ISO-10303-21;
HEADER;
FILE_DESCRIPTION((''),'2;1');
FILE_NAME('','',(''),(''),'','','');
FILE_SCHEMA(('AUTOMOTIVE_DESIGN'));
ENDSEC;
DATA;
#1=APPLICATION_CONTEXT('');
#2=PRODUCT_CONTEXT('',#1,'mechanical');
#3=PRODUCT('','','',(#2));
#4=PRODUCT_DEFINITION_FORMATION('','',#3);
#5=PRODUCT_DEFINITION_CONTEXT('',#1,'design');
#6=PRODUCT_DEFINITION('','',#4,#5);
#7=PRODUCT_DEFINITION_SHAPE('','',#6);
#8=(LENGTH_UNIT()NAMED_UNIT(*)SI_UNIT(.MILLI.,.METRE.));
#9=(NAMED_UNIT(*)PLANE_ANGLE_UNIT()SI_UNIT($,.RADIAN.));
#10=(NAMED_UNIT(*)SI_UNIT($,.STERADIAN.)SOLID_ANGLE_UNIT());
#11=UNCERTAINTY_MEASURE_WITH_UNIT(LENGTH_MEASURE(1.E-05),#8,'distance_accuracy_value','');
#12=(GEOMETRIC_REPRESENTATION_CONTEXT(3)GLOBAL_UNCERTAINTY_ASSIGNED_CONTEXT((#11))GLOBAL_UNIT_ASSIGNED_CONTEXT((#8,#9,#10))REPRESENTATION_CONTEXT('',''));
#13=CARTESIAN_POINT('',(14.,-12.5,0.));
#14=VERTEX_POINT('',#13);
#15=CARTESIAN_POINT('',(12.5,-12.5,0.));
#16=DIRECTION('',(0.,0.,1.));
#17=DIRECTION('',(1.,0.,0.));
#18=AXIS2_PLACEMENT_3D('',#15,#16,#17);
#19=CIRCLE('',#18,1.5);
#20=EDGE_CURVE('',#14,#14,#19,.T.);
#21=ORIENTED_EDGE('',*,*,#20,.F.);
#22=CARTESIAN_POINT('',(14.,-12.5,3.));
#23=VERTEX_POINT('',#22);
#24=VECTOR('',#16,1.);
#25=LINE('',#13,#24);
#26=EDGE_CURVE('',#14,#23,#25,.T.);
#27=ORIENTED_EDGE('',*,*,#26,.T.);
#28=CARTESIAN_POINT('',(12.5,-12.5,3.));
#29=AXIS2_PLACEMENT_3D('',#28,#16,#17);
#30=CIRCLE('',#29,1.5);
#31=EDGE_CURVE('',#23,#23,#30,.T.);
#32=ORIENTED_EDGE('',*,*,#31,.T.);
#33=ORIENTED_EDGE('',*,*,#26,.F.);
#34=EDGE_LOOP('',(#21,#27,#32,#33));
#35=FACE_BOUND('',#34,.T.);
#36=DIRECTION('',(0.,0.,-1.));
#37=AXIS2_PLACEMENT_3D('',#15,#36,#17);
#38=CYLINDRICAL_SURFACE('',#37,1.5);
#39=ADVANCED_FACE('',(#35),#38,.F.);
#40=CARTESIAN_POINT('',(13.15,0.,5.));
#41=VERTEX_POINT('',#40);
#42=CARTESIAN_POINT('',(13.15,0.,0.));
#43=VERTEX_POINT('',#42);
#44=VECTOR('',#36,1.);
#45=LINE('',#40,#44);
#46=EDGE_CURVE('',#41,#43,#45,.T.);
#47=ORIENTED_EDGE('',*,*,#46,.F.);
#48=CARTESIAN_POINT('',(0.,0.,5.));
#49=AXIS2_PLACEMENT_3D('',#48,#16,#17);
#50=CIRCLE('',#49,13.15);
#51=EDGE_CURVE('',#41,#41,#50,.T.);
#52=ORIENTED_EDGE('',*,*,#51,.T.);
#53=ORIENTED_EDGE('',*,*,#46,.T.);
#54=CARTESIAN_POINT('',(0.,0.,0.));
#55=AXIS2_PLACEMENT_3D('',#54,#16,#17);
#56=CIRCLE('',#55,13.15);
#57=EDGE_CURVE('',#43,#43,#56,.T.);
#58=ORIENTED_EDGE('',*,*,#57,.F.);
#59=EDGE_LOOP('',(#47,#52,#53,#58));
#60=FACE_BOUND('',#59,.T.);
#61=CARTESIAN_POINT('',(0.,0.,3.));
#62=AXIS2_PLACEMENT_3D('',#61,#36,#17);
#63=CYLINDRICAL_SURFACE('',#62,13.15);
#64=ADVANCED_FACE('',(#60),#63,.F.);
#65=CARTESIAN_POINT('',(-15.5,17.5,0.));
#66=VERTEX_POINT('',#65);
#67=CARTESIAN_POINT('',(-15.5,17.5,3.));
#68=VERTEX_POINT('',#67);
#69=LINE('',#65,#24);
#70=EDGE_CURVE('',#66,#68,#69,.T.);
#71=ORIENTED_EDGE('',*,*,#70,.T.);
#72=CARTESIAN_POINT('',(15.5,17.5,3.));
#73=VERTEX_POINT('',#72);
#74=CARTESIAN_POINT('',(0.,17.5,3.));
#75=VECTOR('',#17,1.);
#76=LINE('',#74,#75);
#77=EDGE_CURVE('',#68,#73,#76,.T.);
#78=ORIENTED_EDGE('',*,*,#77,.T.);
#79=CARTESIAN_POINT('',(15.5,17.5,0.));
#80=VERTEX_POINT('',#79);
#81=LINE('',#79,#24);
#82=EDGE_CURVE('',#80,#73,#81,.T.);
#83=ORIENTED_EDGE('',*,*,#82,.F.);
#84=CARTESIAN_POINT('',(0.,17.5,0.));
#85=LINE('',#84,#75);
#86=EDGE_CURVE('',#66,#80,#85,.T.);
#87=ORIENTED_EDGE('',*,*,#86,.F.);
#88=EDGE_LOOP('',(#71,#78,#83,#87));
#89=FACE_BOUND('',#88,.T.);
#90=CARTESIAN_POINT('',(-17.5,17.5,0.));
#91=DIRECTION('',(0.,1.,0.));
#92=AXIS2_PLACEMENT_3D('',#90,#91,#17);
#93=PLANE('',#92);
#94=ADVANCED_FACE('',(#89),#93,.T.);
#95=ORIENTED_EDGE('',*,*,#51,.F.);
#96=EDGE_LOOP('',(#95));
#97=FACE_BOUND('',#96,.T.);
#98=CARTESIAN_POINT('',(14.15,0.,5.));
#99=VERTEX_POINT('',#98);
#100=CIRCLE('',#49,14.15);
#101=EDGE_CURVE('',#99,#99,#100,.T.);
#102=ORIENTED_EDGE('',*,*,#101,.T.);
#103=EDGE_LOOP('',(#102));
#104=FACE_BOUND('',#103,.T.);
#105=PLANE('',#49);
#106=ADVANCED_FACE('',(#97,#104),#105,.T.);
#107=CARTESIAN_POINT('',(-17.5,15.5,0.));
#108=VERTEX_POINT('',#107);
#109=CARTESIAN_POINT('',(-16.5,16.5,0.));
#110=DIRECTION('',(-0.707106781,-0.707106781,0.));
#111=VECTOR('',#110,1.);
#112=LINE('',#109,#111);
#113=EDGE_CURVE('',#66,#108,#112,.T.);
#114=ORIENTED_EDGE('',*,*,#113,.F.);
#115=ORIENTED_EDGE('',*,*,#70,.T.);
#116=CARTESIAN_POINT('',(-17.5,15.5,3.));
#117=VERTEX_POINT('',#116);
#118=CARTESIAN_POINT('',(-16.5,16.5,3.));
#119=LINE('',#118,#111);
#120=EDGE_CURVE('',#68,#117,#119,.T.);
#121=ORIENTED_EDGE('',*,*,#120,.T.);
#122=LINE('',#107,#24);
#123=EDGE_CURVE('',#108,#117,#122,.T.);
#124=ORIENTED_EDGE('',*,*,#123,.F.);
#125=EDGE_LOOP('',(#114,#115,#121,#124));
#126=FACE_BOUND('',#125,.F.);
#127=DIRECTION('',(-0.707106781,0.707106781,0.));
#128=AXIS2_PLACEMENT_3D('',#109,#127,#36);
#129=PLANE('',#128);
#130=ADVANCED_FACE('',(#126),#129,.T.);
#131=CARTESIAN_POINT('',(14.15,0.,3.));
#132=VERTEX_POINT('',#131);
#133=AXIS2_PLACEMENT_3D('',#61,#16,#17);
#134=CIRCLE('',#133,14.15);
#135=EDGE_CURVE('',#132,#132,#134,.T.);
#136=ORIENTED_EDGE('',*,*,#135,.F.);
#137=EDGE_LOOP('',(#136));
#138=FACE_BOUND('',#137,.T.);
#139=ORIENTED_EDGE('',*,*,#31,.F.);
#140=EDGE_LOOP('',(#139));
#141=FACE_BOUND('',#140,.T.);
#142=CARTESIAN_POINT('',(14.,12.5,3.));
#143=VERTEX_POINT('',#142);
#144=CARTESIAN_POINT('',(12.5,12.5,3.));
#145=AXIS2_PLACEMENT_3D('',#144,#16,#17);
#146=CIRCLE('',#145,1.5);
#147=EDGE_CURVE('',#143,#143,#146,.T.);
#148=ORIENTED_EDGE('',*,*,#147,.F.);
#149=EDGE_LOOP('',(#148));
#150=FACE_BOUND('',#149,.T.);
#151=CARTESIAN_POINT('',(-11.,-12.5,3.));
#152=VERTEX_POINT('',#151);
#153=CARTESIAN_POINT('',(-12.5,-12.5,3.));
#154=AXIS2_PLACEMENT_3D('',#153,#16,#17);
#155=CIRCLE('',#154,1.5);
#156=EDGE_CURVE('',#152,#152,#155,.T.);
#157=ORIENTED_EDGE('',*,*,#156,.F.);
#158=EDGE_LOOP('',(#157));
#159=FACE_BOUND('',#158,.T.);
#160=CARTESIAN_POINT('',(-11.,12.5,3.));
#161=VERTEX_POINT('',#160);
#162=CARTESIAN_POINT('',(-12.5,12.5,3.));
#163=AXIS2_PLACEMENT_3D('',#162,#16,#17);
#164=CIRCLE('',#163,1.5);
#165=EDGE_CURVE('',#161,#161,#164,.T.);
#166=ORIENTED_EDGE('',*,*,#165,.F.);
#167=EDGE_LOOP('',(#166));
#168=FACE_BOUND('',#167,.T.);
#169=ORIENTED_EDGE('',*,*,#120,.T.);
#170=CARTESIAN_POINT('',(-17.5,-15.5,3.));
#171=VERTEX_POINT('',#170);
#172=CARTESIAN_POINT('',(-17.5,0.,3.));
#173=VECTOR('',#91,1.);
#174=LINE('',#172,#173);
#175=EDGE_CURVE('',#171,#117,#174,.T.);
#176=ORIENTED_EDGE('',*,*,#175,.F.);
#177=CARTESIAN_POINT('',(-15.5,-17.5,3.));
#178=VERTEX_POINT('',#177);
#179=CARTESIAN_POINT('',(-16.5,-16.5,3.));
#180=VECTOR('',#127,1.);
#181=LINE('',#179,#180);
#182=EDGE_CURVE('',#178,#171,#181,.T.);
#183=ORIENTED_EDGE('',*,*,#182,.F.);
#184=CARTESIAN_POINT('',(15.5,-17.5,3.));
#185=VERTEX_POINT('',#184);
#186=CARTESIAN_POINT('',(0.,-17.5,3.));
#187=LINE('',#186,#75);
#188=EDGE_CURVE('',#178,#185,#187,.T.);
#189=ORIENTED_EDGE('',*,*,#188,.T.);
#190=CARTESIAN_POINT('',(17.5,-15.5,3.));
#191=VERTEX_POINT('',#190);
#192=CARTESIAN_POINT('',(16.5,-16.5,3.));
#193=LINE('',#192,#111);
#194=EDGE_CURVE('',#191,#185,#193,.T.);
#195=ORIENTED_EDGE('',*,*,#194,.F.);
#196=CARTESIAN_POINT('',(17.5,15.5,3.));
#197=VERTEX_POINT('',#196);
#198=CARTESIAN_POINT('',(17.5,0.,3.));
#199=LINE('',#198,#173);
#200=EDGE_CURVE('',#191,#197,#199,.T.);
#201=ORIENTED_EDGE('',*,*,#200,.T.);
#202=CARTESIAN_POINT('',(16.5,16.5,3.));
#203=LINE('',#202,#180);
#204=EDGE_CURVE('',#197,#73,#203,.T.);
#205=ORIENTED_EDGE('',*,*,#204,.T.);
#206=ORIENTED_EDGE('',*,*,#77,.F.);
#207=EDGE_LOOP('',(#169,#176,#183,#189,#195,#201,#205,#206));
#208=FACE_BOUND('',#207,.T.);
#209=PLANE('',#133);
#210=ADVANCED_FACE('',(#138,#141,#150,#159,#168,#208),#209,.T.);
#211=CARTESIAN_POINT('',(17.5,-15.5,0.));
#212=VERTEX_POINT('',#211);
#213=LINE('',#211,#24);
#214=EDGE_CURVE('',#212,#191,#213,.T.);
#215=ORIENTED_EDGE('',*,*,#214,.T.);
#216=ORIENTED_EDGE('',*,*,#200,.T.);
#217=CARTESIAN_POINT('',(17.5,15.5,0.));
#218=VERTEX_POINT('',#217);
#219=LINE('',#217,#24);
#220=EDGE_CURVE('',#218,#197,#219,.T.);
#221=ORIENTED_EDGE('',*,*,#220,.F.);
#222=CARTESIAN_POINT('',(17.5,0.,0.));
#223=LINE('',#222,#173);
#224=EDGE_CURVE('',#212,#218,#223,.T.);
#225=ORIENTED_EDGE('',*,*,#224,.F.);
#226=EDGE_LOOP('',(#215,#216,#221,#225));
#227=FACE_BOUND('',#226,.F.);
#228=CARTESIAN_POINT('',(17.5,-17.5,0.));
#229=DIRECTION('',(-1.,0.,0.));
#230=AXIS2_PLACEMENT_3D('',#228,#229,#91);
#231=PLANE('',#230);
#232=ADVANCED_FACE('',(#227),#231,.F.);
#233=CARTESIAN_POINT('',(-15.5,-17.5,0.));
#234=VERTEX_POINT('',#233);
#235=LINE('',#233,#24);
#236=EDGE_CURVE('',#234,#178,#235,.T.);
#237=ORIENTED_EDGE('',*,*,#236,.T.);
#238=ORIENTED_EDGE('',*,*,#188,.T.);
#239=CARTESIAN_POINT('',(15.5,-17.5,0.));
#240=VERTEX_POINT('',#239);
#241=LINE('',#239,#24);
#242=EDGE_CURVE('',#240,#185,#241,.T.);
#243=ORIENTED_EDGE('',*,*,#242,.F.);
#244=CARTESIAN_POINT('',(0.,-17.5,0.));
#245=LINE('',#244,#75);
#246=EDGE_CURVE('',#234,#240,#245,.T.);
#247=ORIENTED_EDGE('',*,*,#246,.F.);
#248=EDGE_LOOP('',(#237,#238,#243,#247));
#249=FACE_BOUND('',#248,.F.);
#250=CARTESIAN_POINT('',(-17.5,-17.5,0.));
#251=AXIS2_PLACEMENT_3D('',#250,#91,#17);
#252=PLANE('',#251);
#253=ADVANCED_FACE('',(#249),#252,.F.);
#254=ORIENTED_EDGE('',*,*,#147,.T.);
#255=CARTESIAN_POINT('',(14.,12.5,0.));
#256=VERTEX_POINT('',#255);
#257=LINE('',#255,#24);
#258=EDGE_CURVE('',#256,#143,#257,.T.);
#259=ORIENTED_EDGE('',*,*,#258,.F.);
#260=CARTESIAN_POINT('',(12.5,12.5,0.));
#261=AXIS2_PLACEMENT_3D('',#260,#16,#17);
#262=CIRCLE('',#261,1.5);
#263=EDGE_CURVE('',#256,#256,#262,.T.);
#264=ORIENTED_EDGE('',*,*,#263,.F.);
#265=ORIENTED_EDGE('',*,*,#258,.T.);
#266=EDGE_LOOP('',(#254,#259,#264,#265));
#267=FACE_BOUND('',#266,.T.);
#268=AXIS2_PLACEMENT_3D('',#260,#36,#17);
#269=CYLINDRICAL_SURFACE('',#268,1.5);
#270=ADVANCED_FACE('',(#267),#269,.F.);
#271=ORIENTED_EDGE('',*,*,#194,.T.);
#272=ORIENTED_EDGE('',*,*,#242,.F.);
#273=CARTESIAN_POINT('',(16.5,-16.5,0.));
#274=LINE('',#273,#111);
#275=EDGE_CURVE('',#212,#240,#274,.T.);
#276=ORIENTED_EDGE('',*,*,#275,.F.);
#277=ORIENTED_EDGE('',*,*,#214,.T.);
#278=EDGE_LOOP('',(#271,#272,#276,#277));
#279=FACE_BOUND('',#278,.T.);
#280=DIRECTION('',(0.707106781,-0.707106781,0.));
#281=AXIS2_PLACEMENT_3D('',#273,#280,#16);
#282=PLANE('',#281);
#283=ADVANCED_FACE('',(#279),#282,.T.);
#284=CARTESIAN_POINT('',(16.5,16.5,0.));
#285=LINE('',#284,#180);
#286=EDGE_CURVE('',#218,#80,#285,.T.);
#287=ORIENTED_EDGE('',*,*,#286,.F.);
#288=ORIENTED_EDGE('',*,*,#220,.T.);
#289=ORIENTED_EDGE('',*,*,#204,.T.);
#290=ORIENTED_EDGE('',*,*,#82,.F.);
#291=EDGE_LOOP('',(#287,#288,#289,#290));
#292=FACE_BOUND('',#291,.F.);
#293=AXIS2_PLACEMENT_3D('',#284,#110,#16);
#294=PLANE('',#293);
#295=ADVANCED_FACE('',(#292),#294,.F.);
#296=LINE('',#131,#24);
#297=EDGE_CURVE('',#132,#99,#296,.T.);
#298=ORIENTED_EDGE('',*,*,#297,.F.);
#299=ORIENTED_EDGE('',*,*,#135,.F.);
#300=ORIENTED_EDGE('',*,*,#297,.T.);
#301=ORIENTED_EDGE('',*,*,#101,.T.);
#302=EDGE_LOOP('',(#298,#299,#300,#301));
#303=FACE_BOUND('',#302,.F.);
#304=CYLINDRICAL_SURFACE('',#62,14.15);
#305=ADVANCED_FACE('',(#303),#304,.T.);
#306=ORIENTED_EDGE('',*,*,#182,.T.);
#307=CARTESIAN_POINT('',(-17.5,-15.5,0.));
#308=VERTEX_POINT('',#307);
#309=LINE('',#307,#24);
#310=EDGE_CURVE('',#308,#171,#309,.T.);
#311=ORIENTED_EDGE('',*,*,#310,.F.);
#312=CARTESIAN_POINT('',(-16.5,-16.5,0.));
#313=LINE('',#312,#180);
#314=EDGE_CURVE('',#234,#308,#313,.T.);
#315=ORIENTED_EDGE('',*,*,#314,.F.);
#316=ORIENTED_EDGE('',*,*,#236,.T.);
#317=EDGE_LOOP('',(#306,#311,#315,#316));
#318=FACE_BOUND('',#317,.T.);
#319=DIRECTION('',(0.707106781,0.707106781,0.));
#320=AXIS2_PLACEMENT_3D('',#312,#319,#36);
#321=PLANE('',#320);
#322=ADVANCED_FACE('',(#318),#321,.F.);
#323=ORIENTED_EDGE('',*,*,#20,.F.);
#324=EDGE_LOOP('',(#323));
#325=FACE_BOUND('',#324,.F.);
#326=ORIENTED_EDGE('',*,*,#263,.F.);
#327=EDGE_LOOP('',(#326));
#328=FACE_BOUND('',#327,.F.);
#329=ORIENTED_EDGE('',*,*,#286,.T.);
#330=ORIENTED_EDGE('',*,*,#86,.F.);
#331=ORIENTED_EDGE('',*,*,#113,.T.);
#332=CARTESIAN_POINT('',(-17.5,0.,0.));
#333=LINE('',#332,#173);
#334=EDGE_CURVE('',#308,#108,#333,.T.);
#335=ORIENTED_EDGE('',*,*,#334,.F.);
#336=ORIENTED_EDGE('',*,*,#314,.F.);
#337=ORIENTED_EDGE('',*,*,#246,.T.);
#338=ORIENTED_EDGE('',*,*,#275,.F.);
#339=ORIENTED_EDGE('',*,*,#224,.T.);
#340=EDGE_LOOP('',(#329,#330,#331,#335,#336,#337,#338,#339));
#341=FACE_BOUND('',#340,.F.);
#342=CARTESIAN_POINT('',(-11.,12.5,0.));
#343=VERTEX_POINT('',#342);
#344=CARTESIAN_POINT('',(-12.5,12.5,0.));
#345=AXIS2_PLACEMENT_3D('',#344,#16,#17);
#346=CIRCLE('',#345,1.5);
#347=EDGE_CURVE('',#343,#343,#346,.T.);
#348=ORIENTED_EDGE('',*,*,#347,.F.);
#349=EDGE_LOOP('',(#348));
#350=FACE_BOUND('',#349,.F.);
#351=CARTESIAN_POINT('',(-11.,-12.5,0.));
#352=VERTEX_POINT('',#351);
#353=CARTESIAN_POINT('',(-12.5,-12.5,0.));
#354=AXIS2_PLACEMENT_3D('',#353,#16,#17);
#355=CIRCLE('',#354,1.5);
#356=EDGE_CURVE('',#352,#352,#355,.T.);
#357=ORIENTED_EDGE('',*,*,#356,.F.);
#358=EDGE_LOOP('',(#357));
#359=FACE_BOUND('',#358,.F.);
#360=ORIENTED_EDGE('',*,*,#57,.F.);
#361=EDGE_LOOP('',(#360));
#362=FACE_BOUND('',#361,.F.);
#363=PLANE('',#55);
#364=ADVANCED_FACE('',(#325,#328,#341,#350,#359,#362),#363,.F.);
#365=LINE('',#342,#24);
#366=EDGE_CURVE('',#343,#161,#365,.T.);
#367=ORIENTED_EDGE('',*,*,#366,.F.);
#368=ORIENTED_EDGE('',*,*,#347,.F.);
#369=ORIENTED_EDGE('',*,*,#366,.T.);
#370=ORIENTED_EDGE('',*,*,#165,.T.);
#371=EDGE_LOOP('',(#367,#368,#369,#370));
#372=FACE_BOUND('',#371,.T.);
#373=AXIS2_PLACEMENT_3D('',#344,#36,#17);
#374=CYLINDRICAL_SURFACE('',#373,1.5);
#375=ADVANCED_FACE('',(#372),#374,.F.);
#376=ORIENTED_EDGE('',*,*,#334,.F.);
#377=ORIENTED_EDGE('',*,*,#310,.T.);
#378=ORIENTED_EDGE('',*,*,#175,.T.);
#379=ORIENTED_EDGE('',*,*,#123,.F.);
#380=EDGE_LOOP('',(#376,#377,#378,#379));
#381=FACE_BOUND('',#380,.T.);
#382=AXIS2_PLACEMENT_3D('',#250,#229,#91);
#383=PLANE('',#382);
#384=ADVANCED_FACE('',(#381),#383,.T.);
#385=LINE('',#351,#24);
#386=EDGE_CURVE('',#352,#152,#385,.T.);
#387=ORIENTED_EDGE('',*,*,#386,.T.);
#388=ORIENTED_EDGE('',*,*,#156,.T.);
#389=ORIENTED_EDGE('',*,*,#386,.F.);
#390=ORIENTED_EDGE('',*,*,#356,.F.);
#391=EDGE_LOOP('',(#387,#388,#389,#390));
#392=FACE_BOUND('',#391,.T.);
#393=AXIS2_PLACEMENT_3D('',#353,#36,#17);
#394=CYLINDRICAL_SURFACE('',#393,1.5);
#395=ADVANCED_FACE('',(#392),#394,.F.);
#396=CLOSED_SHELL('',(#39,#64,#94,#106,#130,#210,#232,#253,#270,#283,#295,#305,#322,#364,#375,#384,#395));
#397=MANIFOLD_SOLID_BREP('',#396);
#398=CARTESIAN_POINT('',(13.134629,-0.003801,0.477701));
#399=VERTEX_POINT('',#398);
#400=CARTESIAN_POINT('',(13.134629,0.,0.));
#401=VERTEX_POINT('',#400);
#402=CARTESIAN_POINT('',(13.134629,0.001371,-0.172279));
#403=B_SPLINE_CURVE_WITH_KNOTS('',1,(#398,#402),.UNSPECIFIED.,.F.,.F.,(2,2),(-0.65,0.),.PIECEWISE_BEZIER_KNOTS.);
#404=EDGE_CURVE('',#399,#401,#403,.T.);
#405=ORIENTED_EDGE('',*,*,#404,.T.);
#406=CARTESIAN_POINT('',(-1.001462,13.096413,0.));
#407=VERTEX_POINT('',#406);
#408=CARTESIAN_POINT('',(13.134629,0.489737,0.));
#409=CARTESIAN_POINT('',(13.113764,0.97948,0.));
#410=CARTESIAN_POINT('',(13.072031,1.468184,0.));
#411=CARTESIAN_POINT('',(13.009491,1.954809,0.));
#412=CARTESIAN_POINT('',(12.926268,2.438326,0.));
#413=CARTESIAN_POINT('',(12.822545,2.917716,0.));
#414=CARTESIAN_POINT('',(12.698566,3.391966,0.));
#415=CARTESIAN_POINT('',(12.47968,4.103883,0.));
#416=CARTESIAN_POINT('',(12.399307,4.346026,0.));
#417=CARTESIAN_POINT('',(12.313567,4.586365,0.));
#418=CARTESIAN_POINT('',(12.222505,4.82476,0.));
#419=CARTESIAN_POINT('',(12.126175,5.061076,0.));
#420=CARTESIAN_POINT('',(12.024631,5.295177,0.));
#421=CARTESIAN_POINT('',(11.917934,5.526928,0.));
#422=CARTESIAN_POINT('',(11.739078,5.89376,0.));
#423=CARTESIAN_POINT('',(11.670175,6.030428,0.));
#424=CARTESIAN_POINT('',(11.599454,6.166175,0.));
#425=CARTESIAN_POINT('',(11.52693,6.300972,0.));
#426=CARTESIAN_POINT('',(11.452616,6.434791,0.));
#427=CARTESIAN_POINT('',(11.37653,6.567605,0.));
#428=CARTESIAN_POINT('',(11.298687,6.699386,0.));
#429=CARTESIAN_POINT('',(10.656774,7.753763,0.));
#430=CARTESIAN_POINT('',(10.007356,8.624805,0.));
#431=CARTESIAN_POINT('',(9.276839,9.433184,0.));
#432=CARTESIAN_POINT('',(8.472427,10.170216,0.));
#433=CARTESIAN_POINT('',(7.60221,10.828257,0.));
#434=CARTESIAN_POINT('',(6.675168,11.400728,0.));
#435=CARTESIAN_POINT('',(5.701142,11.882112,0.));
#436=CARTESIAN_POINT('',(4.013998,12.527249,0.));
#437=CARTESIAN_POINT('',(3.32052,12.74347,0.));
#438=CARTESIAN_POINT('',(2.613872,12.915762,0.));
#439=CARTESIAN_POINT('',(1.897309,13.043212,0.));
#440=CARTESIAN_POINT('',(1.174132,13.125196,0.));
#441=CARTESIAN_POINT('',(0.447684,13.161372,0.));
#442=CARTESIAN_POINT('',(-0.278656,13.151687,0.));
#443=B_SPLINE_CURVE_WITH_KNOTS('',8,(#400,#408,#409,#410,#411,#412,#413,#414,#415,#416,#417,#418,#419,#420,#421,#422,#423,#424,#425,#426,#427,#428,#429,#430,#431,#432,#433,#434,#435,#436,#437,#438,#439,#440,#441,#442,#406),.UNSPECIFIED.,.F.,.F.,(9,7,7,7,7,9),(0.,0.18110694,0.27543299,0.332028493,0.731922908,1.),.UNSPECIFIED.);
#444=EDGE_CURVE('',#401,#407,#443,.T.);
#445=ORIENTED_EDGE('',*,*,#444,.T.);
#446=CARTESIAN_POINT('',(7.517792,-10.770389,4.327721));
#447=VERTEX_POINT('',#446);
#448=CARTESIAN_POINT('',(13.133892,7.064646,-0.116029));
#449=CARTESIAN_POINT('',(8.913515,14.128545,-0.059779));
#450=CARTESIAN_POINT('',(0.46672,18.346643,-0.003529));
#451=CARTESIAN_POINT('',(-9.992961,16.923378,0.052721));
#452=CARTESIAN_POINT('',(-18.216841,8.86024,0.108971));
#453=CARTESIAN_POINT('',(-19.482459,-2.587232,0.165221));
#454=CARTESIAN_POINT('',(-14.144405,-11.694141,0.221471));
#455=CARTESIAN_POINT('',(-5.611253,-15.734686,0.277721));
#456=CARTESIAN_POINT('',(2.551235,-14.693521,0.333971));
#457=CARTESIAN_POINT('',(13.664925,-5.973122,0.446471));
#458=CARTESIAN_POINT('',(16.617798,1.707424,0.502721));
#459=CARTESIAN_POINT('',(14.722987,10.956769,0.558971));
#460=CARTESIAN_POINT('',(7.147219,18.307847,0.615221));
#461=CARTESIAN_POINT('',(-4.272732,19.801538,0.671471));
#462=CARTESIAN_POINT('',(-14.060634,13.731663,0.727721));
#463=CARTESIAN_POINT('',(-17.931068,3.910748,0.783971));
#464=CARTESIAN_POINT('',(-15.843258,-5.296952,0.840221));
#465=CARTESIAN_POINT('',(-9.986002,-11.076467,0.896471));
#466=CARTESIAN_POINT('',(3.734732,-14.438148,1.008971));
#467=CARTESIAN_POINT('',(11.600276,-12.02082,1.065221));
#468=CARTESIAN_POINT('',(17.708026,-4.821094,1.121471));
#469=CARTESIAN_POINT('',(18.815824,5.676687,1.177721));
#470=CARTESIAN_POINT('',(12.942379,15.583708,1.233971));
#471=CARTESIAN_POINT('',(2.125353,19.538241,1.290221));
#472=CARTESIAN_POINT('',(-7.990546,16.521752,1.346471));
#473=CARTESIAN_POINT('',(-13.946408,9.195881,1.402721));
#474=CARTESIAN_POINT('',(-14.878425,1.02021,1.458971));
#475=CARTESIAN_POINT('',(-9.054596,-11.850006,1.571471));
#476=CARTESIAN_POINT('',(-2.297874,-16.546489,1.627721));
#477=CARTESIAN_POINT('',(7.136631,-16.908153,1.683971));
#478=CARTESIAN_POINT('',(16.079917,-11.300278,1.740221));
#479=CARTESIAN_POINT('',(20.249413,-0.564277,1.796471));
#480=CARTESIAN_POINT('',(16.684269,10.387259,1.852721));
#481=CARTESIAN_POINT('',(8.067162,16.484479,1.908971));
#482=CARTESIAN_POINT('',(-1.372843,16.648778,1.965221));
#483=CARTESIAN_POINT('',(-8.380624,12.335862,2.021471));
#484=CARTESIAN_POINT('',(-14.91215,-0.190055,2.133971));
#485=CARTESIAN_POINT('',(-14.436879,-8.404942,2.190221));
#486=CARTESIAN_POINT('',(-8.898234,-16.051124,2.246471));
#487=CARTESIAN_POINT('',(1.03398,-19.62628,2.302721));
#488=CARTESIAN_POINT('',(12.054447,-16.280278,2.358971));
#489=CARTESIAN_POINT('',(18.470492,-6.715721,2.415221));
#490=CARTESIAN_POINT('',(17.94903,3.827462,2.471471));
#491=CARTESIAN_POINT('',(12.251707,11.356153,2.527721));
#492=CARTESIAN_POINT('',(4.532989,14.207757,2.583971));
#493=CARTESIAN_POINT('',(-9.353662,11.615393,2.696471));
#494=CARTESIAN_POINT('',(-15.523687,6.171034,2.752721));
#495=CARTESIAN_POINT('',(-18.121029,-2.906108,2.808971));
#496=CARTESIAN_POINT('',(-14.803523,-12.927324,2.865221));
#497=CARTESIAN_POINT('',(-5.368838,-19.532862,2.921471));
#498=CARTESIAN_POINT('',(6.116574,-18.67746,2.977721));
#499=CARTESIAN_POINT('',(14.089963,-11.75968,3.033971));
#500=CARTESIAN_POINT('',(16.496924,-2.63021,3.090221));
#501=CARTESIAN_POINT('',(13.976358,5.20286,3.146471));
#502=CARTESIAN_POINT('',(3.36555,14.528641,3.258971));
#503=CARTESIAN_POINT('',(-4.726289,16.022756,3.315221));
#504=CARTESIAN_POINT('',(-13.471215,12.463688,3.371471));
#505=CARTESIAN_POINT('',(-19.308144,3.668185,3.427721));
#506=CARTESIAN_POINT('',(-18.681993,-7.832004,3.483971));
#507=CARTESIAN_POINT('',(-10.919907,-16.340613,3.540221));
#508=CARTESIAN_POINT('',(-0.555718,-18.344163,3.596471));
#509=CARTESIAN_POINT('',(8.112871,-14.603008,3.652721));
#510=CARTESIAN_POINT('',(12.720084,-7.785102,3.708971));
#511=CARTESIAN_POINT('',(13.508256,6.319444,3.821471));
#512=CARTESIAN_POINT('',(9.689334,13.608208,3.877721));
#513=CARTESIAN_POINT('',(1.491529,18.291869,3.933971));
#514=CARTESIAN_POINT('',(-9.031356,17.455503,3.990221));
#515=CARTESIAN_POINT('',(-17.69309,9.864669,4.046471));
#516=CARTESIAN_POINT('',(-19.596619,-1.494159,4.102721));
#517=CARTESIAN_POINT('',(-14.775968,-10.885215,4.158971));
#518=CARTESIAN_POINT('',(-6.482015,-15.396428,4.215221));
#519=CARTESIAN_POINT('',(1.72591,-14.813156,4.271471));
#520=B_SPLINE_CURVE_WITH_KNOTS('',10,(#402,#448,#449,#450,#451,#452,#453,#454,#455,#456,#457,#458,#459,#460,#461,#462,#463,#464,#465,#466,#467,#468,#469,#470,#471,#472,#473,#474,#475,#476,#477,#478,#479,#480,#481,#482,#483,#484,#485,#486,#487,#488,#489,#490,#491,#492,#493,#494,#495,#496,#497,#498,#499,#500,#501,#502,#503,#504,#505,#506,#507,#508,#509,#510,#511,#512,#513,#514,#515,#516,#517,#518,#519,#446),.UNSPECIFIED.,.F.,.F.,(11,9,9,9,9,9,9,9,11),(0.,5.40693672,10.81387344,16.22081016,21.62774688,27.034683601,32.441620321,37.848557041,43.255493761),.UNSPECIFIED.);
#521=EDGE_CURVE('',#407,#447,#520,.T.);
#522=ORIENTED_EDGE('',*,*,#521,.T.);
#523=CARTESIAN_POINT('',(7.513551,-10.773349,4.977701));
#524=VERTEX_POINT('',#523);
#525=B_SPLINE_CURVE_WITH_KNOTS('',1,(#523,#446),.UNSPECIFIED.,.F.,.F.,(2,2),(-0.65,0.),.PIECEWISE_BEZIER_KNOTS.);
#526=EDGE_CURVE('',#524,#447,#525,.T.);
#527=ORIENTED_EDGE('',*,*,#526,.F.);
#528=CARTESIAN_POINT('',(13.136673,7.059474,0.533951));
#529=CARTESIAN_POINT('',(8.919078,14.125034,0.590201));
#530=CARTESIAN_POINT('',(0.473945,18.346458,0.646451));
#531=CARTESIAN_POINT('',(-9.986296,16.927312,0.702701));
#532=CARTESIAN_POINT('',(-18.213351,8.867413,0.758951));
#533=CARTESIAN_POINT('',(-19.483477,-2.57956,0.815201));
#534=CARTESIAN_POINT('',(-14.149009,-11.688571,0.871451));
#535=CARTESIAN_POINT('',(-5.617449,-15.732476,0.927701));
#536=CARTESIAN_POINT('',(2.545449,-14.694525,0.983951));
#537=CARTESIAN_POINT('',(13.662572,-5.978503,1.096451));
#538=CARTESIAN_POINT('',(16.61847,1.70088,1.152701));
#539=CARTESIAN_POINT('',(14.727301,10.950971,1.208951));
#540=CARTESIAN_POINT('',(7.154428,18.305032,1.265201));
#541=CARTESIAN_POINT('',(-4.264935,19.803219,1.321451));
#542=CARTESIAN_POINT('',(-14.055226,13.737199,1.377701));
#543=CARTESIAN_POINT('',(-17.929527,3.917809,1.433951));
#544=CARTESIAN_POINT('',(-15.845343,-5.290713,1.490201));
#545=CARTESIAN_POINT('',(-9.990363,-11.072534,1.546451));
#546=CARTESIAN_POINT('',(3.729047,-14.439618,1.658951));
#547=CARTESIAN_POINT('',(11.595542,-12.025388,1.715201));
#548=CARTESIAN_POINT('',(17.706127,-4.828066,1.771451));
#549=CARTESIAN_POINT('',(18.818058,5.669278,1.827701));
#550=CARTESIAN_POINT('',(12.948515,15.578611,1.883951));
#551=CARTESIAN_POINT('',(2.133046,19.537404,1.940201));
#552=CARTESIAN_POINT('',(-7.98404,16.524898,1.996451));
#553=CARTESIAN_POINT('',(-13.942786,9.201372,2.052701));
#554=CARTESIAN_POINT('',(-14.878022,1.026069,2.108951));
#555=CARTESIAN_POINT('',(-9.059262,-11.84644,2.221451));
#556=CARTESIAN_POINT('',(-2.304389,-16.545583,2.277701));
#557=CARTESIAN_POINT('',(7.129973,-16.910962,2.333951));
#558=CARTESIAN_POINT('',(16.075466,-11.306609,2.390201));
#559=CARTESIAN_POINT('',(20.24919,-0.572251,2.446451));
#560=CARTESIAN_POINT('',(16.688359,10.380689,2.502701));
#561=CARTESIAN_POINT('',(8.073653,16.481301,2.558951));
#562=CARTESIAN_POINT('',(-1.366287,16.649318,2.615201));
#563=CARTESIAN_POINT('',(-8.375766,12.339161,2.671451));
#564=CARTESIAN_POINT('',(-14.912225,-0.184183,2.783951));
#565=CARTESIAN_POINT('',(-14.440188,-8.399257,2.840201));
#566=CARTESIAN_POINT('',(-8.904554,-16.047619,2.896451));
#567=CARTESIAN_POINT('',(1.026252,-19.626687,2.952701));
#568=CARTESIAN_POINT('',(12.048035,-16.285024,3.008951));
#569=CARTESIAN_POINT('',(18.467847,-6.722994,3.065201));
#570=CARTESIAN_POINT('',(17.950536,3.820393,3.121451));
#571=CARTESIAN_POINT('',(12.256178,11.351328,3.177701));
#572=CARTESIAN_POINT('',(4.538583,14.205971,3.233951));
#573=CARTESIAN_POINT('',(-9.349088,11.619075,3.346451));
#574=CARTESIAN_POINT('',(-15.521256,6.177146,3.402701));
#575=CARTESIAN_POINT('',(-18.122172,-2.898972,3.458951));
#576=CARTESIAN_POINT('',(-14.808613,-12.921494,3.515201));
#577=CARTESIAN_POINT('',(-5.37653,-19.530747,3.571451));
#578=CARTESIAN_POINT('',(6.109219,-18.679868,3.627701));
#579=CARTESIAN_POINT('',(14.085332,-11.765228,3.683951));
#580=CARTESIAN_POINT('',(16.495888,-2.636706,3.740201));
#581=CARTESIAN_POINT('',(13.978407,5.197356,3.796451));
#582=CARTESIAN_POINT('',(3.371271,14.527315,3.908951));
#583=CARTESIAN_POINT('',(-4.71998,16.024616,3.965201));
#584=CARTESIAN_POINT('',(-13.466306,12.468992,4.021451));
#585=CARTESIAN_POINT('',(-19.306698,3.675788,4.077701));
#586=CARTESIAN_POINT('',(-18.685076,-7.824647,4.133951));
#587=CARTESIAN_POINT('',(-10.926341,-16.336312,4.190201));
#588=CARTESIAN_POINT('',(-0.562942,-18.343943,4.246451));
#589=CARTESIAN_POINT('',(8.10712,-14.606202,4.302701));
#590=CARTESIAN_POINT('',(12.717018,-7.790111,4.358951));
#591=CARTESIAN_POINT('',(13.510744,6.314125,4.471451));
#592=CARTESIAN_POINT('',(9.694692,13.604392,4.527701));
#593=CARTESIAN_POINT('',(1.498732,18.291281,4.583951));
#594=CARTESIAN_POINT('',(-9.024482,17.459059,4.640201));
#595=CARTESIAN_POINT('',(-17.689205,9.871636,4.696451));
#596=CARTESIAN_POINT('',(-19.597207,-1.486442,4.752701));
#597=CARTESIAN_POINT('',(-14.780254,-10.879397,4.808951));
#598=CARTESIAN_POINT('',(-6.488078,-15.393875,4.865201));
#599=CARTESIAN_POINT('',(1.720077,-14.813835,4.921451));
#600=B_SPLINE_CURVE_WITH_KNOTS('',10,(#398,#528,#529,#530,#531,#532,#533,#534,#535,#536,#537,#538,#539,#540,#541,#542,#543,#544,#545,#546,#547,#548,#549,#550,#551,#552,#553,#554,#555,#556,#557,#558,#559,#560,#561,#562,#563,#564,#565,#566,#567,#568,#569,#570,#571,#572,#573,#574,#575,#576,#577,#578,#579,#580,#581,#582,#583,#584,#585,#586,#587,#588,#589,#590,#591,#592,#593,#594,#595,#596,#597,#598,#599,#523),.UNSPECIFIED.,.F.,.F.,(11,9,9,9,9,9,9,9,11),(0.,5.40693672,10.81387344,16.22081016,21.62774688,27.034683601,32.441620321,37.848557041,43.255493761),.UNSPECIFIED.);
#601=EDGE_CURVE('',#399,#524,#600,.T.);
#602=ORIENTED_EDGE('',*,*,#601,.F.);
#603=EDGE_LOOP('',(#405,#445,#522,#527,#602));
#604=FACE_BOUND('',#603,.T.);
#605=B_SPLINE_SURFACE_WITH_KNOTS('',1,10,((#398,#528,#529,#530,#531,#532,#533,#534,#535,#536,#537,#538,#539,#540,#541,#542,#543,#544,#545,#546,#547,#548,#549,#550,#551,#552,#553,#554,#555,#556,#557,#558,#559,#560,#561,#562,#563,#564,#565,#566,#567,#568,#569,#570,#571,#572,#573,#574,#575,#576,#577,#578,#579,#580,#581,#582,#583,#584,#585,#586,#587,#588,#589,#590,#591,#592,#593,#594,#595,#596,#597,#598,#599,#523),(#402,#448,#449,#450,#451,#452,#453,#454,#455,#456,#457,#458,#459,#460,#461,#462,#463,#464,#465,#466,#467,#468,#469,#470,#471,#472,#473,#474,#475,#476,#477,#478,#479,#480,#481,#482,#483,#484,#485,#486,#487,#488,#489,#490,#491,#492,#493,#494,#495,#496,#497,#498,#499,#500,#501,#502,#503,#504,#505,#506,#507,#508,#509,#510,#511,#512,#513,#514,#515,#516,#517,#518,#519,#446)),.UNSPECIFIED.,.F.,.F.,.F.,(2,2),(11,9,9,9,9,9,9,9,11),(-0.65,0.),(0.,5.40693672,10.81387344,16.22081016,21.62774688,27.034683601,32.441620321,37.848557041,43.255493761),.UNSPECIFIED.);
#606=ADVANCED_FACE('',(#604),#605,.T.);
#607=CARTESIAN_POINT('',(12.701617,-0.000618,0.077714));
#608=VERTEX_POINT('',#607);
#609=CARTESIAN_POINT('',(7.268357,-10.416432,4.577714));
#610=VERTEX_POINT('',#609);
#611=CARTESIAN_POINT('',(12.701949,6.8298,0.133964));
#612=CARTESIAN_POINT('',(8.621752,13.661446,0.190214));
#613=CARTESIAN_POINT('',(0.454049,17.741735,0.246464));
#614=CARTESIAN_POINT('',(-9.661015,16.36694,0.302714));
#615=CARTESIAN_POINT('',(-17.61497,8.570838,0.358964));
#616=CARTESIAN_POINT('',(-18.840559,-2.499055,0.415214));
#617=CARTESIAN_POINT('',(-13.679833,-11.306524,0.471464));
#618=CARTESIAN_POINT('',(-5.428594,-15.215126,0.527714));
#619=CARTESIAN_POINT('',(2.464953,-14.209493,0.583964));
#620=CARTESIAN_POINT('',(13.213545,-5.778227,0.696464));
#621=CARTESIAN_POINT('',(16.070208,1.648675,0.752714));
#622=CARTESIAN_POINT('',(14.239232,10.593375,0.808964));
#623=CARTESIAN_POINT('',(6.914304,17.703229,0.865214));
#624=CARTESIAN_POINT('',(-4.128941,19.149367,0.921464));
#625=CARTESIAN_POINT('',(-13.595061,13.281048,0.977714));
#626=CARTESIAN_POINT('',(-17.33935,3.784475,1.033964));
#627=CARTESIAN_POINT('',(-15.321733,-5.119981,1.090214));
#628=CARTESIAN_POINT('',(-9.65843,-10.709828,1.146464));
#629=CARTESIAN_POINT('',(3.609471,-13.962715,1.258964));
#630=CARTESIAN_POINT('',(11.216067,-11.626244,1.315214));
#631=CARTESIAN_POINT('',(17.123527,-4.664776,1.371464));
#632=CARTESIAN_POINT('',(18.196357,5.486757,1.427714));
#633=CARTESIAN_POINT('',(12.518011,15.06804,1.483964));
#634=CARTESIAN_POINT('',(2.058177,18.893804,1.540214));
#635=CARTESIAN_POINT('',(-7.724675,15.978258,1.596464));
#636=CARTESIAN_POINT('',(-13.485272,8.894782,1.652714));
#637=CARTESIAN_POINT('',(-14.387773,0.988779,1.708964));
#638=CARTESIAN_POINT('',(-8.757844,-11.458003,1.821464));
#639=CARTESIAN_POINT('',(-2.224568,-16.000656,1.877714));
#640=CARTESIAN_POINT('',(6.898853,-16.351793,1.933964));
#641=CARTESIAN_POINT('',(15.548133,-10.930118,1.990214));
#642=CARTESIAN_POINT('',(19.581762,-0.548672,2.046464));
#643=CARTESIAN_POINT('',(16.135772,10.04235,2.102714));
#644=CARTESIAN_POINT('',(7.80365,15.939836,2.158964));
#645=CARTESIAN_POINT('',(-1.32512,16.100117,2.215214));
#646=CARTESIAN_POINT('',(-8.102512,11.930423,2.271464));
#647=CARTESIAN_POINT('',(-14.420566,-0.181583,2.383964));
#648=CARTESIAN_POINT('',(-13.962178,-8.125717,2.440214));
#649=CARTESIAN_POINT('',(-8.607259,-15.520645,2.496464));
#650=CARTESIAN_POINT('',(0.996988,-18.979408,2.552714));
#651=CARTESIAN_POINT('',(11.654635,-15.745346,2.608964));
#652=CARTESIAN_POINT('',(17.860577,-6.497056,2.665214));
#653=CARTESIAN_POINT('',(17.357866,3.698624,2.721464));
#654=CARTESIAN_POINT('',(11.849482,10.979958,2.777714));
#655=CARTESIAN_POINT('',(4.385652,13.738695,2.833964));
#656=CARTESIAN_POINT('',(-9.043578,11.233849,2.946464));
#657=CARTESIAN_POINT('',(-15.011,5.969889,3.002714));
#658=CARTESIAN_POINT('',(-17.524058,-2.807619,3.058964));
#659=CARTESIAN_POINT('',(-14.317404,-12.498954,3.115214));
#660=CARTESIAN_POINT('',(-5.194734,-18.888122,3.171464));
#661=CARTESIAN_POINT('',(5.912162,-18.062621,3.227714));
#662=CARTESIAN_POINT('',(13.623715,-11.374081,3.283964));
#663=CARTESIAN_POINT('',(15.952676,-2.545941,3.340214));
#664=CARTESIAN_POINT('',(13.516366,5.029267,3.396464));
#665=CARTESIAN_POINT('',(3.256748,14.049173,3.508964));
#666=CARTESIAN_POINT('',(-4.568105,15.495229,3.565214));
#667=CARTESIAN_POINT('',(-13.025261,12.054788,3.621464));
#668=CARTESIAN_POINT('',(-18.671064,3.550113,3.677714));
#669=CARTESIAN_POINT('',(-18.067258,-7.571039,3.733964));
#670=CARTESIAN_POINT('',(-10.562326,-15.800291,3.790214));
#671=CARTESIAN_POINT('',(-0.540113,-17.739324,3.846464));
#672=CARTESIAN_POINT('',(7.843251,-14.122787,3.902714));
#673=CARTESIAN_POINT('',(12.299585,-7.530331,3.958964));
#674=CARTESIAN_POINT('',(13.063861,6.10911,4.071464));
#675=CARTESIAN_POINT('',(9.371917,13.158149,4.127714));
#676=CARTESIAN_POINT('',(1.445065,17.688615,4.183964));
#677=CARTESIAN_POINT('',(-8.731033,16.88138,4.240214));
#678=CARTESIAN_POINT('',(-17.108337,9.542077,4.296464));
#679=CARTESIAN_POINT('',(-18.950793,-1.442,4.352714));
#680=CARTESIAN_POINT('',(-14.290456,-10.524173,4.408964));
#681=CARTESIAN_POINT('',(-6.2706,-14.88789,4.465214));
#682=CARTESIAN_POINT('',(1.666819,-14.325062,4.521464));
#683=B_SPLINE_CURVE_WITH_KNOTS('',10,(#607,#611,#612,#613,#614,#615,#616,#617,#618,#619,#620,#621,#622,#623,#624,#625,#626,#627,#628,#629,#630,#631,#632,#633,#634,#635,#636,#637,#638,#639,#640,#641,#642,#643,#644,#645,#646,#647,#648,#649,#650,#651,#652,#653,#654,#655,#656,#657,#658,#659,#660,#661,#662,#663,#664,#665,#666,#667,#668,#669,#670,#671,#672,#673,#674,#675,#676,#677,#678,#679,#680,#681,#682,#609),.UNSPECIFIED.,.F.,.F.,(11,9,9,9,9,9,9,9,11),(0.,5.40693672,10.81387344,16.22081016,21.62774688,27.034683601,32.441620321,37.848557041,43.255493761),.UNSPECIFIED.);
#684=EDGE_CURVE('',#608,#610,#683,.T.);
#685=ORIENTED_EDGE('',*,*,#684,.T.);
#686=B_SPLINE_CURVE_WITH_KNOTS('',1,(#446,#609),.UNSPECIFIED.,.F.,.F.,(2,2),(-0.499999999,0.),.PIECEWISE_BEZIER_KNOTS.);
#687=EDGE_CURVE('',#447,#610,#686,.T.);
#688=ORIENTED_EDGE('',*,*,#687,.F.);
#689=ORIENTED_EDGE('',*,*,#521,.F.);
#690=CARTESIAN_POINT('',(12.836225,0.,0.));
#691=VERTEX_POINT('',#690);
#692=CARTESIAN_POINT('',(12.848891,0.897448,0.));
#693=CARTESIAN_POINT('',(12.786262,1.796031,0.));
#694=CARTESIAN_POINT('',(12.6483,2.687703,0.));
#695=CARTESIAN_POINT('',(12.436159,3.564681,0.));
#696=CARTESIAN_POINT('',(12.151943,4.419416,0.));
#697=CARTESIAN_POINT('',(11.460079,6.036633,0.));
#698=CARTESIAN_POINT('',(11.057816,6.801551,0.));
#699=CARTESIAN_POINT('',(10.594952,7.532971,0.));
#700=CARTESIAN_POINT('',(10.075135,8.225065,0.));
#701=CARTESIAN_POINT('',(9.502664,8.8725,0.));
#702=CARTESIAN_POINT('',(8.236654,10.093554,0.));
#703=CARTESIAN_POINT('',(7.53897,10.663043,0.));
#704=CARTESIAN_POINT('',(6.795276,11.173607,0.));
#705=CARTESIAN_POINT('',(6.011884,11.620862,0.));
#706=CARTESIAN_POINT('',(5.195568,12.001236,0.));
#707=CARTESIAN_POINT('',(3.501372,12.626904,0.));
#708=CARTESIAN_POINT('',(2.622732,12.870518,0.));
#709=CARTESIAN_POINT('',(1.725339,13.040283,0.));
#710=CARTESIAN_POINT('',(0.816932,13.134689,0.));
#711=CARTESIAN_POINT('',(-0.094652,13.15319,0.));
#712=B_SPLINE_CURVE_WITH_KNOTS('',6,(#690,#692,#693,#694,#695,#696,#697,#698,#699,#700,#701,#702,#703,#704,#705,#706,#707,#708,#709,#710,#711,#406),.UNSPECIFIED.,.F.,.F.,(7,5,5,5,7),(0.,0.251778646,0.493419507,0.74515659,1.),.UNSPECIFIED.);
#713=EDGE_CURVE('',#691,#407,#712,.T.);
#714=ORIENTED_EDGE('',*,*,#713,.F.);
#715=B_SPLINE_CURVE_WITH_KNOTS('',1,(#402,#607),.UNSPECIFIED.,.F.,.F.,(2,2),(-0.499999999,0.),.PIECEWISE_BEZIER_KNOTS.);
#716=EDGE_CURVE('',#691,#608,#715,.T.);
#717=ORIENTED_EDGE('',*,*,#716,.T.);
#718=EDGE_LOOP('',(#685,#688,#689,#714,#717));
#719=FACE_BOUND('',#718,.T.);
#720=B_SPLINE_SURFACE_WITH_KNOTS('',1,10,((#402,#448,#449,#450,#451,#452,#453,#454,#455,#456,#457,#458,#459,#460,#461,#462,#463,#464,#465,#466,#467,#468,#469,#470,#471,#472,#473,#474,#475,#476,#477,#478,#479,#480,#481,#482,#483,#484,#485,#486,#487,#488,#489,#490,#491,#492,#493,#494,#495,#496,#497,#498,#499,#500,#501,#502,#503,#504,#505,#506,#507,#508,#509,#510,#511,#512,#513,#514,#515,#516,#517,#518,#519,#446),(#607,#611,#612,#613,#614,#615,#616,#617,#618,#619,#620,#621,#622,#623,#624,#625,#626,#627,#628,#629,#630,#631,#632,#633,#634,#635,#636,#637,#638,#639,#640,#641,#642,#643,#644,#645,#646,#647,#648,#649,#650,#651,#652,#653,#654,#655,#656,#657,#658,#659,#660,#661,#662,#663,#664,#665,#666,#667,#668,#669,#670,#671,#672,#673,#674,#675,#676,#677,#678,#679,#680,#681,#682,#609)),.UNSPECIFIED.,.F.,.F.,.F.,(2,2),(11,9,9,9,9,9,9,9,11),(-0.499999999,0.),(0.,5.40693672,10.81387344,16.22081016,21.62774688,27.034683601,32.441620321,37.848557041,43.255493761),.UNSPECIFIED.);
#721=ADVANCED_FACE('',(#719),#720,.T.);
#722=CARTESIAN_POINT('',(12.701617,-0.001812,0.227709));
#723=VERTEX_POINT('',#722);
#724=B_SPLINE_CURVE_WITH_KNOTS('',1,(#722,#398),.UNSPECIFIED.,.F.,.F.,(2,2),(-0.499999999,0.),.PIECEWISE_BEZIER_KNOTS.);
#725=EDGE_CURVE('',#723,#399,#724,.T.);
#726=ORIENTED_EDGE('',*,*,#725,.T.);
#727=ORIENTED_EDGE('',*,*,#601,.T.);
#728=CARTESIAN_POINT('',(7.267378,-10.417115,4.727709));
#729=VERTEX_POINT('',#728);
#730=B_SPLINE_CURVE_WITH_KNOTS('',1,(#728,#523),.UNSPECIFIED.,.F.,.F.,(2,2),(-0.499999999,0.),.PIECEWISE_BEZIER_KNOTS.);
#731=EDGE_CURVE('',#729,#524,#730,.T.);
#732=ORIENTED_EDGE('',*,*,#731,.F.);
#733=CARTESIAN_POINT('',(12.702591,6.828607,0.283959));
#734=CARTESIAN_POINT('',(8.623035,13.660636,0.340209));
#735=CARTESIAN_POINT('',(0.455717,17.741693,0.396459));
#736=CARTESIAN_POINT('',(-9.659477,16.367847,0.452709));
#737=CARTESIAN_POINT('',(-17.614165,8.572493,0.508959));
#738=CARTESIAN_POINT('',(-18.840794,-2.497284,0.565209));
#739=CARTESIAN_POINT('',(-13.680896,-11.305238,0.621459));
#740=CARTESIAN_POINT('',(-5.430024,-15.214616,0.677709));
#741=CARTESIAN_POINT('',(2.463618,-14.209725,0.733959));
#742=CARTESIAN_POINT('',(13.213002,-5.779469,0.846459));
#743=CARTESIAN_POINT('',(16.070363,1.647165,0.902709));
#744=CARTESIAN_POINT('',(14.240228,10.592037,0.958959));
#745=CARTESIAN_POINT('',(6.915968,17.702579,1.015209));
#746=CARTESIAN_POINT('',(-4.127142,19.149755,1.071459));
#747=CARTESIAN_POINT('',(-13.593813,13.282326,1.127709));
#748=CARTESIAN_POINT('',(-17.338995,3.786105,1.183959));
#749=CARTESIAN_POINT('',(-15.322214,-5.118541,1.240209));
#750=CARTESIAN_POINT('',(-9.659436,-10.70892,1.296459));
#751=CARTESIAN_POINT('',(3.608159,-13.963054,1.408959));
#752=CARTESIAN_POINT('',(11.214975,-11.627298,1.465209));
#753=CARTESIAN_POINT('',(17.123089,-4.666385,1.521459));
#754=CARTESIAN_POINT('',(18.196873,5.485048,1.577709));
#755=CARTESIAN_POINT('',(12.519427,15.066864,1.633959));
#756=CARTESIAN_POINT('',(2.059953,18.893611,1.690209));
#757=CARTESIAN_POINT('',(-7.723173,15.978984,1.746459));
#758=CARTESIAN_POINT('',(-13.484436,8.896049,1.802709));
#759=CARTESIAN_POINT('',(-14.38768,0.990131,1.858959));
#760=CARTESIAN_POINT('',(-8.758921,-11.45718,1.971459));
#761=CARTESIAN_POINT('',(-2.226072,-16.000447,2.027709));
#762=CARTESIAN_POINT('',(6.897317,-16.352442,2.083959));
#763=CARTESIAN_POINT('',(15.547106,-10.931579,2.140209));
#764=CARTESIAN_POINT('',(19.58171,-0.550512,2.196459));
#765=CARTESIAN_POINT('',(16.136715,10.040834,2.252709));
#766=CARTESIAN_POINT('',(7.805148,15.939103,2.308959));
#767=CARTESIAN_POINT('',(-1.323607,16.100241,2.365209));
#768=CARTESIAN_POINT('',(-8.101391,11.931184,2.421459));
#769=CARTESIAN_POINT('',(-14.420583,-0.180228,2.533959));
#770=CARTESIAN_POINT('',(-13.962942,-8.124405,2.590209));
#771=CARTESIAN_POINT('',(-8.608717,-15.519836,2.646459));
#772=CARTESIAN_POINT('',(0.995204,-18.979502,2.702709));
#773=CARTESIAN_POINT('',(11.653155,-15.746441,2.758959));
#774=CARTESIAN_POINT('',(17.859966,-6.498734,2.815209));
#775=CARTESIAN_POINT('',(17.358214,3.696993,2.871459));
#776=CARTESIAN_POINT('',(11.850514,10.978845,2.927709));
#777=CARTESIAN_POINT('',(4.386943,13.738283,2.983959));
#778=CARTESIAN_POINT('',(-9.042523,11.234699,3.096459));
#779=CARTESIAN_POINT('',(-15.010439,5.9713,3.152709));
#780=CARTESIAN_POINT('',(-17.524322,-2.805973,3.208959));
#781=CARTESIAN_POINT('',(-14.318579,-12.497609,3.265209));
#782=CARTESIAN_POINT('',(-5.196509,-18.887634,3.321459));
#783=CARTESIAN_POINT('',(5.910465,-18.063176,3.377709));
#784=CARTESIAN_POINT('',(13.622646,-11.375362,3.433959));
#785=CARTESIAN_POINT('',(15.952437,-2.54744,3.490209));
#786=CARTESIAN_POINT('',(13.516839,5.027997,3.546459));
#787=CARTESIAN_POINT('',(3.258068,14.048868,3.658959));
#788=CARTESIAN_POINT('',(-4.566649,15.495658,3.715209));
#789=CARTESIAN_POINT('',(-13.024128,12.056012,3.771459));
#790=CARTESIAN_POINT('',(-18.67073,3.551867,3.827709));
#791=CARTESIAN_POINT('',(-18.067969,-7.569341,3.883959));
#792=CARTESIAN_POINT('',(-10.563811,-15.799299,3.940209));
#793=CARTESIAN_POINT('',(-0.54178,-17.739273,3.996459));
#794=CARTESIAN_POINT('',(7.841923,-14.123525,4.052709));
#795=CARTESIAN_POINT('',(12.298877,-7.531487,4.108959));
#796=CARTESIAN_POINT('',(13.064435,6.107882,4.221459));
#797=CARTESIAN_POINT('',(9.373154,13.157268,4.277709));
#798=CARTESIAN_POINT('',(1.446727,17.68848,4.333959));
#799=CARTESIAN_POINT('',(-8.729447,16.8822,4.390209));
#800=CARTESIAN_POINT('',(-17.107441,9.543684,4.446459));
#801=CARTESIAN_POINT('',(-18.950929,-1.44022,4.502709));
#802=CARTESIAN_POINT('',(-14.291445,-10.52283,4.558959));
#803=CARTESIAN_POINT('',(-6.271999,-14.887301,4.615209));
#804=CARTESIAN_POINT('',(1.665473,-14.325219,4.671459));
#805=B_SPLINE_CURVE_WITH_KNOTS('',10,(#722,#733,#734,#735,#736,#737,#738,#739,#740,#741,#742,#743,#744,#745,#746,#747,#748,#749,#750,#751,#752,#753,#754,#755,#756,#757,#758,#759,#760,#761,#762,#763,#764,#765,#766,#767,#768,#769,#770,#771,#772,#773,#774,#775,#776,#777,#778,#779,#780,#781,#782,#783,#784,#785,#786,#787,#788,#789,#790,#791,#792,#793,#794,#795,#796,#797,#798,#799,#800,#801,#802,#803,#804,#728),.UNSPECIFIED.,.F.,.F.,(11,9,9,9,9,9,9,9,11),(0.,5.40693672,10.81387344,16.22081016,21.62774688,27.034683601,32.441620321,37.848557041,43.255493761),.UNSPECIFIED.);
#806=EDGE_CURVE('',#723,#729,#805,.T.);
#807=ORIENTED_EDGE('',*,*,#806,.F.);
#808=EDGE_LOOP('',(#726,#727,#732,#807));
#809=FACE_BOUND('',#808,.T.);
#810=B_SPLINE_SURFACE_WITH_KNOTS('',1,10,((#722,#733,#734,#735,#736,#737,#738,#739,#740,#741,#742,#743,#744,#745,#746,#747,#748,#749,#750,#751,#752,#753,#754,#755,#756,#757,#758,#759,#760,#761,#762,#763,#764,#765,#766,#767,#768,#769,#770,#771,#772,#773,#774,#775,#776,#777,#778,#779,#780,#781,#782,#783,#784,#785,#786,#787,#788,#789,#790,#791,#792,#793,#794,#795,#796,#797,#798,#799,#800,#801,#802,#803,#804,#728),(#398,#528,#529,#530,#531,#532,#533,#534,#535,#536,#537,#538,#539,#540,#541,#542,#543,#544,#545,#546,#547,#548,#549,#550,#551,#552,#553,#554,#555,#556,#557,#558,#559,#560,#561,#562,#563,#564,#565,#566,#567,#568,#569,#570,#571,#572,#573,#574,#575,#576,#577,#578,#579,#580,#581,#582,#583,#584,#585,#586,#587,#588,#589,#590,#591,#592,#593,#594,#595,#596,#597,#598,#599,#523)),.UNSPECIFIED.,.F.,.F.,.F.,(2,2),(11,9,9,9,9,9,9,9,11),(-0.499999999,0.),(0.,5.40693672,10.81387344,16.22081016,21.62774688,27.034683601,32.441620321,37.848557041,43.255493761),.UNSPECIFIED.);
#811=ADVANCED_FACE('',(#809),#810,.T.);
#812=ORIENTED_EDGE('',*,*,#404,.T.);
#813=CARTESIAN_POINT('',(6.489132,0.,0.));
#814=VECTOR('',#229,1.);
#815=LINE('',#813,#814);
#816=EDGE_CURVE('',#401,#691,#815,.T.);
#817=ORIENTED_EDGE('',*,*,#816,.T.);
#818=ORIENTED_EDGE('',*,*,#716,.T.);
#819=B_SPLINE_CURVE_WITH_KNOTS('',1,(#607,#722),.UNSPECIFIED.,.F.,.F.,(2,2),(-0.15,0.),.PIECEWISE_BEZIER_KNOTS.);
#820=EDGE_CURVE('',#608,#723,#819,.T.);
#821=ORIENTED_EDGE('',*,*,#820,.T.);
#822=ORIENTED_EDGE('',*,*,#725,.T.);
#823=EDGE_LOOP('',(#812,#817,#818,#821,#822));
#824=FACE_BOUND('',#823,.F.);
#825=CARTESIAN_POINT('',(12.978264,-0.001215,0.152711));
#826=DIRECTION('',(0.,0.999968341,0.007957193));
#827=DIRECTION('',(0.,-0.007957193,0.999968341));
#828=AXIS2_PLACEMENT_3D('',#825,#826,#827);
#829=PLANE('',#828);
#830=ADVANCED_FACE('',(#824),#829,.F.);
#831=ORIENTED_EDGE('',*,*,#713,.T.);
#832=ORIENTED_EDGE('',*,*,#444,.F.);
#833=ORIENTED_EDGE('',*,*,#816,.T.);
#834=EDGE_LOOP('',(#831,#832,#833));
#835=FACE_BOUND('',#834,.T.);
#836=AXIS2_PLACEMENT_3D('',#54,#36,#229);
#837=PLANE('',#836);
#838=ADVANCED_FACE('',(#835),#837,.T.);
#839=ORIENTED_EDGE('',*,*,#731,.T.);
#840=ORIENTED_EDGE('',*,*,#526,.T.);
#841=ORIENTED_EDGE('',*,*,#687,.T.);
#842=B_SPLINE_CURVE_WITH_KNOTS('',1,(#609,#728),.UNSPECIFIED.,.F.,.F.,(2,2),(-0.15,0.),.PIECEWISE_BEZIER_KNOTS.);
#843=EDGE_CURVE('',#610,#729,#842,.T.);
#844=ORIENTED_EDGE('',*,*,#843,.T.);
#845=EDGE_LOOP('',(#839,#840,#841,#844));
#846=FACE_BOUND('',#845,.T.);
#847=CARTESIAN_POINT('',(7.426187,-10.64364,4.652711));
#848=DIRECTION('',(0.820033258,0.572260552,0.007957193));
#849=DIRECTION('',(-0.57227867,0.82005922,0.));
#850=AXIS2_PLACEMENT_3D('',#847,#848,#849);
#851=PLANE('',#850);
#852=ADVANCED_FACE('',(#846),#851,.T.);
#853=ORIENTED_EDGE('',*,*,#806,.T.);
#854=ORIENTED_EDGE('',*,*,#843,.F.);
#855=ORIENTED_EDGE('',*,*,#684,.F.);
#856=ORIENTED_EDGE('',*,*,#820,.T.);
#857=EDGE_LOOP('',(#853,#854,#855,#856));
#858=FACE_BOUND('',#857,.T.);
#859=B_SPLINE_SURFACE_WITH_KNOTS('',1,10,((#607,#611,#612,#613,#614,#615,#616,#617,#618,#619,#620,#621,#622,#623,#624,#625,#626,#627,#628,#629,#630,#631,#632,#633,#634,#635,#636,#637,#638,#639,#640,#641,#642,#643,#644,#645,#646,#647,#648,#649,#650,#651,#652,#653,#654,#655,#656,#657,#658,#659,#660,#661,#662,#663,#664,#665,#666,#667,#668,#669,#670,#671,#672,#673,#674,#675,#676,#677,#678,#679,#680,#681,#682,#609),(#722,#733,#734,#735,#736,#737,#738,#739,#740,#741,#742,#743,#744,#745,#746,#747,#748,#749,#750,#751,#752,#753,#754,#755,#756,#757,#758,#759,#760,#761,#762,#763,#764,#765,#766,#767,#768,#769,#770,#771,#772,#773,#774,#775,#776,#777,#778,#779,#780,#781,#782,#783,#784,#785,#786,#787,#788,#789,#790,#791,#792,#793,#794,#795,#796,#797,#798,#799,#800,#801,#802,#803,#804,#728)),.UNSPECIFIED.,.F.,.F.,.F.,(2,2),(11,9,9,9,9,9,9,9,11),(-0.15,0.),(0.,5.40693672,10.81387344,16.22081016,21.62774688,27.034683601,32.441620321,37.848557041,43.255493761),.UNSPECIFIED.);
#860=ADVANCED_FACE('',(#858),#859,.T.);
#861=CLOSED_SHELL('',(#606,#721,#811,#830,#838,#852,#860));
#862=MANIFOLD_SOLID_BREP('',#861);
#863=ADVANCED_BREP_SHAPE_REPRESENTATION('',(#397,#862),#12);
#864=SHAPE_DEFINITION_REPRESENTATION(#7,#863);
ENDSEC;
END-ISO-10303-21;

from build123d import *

# Parameters (mm, degrees)
SKETCH1_W           = 35
SKETCH1_H           = 35
SKETCH1_R           = 1.5
SKETCH1_R_2         = 13.15
BOSS_EXTRUDE1_DEPTH = 3
SKETCH3_R           = 14.15
SKETCH3_R_2         = 13.15
BOSS_EXTRUDE2_DEPTH = 2
CHAMFER1_SIZE       = 2
SWEEP1_PITCH        = 0.657225
SWEEP1_HEIGHT       = 4.5
SWEEP1_RADIUS       = 13.145
SKETCH6_R           = 26.617101451
CUT_EXTRUDE1_DEPTH  = 1.172278619


with BuildPart() as part:
    # Sketch1 → Boss-Extrude1 (new body)
    with BuildSketch(Plane.XY):
        Rectangle(SKETCH1_W, SKETCH1_H)
        with Locations((-12.5, 12.5)):
            Circle(SKETCH1_R, mode=Mode.SUBTRACT)
        with Locations((12.5, 12.5)):
            Circle(SKETCH1_R, mode=Mode.SUBTRACT)
        with Locations((-12.5, -12.5)):
            Circle(SKETCH1_R, mode=Mode.SUBTRACT)
        with Locations((12.5, -12.5)):
            Circle(SKETCH1_R, mode=Mode.SUBTRACT)
        Circle(SKETCH1_R_2, mode=Mode.SUBTRACT)
    extrude(amount=BOSS_EXTRUDE1_DEPTH)

    # Sketch3 → Boss-Extrude2 (add)
    with BuildSketch(Plane.XY.offset(3)):
        Circle(SKETCH3_R)
        Circle(SKETCH3_R_2, mode=Mode.SUBTRACT)
    extrude(amount=BOSS_EXTRUDE2_DEPTH)

    # Chamfer1
    chamfer1_edges = [part.edges().sort_by_distance(p)[0] for p in [
        (17.5, -17.5, 1.5),
        (-17.5, -17.5, 1.5),
        (-17.5, 17.5, 1.5),
        (17.5, 17.5, 1.5),
    ]]
    chamfer(chamfer1_edges, length=CHAMFER1_SIZE)


with BuildPart() as body_2:
    # Sweep1: sweep along a helix
    with BuildLine() as sweep1_path:
        Helix(SWEEP1_PITCH, SWEEP1_HEIGHT, SWEEP1_RADIUS, center=(0, 0, 0), direction=(0, 0, 1))
    # Sketch5 → Sweep1 (sweep)
    with BuildSketch(Plane(origin=(7.522603109, -10.779678449, 4.5), x_dir=(0.006525369, 0.004553732, -0.999968341), z_dir=(0.820033258, 0.572260552, 0.007957193))):
        Polygon((-0.227716027, 0.443383435), (-0.077716027, 0.443383435), (0.172283973, 0.010370734), (-0.477716027, 0.010370734), align=None)
    sweep(path=sweep1_path.line, is_frenet=True)

    # Sketch6 → Cut-Extrude1 (cut, through all)
    with BuildSketch(Plane(origin=(0, 0, 0), x_dir=(-1, 0, 0), z_dir=(0, 0, -1))):
        Circle(SKETCH6_R)
    extrude(amount=CUT_EXTRUDE1_DEPTH, mode=Mode.SUBTRACT)


solid = Compound([part.part, body_2.part])
